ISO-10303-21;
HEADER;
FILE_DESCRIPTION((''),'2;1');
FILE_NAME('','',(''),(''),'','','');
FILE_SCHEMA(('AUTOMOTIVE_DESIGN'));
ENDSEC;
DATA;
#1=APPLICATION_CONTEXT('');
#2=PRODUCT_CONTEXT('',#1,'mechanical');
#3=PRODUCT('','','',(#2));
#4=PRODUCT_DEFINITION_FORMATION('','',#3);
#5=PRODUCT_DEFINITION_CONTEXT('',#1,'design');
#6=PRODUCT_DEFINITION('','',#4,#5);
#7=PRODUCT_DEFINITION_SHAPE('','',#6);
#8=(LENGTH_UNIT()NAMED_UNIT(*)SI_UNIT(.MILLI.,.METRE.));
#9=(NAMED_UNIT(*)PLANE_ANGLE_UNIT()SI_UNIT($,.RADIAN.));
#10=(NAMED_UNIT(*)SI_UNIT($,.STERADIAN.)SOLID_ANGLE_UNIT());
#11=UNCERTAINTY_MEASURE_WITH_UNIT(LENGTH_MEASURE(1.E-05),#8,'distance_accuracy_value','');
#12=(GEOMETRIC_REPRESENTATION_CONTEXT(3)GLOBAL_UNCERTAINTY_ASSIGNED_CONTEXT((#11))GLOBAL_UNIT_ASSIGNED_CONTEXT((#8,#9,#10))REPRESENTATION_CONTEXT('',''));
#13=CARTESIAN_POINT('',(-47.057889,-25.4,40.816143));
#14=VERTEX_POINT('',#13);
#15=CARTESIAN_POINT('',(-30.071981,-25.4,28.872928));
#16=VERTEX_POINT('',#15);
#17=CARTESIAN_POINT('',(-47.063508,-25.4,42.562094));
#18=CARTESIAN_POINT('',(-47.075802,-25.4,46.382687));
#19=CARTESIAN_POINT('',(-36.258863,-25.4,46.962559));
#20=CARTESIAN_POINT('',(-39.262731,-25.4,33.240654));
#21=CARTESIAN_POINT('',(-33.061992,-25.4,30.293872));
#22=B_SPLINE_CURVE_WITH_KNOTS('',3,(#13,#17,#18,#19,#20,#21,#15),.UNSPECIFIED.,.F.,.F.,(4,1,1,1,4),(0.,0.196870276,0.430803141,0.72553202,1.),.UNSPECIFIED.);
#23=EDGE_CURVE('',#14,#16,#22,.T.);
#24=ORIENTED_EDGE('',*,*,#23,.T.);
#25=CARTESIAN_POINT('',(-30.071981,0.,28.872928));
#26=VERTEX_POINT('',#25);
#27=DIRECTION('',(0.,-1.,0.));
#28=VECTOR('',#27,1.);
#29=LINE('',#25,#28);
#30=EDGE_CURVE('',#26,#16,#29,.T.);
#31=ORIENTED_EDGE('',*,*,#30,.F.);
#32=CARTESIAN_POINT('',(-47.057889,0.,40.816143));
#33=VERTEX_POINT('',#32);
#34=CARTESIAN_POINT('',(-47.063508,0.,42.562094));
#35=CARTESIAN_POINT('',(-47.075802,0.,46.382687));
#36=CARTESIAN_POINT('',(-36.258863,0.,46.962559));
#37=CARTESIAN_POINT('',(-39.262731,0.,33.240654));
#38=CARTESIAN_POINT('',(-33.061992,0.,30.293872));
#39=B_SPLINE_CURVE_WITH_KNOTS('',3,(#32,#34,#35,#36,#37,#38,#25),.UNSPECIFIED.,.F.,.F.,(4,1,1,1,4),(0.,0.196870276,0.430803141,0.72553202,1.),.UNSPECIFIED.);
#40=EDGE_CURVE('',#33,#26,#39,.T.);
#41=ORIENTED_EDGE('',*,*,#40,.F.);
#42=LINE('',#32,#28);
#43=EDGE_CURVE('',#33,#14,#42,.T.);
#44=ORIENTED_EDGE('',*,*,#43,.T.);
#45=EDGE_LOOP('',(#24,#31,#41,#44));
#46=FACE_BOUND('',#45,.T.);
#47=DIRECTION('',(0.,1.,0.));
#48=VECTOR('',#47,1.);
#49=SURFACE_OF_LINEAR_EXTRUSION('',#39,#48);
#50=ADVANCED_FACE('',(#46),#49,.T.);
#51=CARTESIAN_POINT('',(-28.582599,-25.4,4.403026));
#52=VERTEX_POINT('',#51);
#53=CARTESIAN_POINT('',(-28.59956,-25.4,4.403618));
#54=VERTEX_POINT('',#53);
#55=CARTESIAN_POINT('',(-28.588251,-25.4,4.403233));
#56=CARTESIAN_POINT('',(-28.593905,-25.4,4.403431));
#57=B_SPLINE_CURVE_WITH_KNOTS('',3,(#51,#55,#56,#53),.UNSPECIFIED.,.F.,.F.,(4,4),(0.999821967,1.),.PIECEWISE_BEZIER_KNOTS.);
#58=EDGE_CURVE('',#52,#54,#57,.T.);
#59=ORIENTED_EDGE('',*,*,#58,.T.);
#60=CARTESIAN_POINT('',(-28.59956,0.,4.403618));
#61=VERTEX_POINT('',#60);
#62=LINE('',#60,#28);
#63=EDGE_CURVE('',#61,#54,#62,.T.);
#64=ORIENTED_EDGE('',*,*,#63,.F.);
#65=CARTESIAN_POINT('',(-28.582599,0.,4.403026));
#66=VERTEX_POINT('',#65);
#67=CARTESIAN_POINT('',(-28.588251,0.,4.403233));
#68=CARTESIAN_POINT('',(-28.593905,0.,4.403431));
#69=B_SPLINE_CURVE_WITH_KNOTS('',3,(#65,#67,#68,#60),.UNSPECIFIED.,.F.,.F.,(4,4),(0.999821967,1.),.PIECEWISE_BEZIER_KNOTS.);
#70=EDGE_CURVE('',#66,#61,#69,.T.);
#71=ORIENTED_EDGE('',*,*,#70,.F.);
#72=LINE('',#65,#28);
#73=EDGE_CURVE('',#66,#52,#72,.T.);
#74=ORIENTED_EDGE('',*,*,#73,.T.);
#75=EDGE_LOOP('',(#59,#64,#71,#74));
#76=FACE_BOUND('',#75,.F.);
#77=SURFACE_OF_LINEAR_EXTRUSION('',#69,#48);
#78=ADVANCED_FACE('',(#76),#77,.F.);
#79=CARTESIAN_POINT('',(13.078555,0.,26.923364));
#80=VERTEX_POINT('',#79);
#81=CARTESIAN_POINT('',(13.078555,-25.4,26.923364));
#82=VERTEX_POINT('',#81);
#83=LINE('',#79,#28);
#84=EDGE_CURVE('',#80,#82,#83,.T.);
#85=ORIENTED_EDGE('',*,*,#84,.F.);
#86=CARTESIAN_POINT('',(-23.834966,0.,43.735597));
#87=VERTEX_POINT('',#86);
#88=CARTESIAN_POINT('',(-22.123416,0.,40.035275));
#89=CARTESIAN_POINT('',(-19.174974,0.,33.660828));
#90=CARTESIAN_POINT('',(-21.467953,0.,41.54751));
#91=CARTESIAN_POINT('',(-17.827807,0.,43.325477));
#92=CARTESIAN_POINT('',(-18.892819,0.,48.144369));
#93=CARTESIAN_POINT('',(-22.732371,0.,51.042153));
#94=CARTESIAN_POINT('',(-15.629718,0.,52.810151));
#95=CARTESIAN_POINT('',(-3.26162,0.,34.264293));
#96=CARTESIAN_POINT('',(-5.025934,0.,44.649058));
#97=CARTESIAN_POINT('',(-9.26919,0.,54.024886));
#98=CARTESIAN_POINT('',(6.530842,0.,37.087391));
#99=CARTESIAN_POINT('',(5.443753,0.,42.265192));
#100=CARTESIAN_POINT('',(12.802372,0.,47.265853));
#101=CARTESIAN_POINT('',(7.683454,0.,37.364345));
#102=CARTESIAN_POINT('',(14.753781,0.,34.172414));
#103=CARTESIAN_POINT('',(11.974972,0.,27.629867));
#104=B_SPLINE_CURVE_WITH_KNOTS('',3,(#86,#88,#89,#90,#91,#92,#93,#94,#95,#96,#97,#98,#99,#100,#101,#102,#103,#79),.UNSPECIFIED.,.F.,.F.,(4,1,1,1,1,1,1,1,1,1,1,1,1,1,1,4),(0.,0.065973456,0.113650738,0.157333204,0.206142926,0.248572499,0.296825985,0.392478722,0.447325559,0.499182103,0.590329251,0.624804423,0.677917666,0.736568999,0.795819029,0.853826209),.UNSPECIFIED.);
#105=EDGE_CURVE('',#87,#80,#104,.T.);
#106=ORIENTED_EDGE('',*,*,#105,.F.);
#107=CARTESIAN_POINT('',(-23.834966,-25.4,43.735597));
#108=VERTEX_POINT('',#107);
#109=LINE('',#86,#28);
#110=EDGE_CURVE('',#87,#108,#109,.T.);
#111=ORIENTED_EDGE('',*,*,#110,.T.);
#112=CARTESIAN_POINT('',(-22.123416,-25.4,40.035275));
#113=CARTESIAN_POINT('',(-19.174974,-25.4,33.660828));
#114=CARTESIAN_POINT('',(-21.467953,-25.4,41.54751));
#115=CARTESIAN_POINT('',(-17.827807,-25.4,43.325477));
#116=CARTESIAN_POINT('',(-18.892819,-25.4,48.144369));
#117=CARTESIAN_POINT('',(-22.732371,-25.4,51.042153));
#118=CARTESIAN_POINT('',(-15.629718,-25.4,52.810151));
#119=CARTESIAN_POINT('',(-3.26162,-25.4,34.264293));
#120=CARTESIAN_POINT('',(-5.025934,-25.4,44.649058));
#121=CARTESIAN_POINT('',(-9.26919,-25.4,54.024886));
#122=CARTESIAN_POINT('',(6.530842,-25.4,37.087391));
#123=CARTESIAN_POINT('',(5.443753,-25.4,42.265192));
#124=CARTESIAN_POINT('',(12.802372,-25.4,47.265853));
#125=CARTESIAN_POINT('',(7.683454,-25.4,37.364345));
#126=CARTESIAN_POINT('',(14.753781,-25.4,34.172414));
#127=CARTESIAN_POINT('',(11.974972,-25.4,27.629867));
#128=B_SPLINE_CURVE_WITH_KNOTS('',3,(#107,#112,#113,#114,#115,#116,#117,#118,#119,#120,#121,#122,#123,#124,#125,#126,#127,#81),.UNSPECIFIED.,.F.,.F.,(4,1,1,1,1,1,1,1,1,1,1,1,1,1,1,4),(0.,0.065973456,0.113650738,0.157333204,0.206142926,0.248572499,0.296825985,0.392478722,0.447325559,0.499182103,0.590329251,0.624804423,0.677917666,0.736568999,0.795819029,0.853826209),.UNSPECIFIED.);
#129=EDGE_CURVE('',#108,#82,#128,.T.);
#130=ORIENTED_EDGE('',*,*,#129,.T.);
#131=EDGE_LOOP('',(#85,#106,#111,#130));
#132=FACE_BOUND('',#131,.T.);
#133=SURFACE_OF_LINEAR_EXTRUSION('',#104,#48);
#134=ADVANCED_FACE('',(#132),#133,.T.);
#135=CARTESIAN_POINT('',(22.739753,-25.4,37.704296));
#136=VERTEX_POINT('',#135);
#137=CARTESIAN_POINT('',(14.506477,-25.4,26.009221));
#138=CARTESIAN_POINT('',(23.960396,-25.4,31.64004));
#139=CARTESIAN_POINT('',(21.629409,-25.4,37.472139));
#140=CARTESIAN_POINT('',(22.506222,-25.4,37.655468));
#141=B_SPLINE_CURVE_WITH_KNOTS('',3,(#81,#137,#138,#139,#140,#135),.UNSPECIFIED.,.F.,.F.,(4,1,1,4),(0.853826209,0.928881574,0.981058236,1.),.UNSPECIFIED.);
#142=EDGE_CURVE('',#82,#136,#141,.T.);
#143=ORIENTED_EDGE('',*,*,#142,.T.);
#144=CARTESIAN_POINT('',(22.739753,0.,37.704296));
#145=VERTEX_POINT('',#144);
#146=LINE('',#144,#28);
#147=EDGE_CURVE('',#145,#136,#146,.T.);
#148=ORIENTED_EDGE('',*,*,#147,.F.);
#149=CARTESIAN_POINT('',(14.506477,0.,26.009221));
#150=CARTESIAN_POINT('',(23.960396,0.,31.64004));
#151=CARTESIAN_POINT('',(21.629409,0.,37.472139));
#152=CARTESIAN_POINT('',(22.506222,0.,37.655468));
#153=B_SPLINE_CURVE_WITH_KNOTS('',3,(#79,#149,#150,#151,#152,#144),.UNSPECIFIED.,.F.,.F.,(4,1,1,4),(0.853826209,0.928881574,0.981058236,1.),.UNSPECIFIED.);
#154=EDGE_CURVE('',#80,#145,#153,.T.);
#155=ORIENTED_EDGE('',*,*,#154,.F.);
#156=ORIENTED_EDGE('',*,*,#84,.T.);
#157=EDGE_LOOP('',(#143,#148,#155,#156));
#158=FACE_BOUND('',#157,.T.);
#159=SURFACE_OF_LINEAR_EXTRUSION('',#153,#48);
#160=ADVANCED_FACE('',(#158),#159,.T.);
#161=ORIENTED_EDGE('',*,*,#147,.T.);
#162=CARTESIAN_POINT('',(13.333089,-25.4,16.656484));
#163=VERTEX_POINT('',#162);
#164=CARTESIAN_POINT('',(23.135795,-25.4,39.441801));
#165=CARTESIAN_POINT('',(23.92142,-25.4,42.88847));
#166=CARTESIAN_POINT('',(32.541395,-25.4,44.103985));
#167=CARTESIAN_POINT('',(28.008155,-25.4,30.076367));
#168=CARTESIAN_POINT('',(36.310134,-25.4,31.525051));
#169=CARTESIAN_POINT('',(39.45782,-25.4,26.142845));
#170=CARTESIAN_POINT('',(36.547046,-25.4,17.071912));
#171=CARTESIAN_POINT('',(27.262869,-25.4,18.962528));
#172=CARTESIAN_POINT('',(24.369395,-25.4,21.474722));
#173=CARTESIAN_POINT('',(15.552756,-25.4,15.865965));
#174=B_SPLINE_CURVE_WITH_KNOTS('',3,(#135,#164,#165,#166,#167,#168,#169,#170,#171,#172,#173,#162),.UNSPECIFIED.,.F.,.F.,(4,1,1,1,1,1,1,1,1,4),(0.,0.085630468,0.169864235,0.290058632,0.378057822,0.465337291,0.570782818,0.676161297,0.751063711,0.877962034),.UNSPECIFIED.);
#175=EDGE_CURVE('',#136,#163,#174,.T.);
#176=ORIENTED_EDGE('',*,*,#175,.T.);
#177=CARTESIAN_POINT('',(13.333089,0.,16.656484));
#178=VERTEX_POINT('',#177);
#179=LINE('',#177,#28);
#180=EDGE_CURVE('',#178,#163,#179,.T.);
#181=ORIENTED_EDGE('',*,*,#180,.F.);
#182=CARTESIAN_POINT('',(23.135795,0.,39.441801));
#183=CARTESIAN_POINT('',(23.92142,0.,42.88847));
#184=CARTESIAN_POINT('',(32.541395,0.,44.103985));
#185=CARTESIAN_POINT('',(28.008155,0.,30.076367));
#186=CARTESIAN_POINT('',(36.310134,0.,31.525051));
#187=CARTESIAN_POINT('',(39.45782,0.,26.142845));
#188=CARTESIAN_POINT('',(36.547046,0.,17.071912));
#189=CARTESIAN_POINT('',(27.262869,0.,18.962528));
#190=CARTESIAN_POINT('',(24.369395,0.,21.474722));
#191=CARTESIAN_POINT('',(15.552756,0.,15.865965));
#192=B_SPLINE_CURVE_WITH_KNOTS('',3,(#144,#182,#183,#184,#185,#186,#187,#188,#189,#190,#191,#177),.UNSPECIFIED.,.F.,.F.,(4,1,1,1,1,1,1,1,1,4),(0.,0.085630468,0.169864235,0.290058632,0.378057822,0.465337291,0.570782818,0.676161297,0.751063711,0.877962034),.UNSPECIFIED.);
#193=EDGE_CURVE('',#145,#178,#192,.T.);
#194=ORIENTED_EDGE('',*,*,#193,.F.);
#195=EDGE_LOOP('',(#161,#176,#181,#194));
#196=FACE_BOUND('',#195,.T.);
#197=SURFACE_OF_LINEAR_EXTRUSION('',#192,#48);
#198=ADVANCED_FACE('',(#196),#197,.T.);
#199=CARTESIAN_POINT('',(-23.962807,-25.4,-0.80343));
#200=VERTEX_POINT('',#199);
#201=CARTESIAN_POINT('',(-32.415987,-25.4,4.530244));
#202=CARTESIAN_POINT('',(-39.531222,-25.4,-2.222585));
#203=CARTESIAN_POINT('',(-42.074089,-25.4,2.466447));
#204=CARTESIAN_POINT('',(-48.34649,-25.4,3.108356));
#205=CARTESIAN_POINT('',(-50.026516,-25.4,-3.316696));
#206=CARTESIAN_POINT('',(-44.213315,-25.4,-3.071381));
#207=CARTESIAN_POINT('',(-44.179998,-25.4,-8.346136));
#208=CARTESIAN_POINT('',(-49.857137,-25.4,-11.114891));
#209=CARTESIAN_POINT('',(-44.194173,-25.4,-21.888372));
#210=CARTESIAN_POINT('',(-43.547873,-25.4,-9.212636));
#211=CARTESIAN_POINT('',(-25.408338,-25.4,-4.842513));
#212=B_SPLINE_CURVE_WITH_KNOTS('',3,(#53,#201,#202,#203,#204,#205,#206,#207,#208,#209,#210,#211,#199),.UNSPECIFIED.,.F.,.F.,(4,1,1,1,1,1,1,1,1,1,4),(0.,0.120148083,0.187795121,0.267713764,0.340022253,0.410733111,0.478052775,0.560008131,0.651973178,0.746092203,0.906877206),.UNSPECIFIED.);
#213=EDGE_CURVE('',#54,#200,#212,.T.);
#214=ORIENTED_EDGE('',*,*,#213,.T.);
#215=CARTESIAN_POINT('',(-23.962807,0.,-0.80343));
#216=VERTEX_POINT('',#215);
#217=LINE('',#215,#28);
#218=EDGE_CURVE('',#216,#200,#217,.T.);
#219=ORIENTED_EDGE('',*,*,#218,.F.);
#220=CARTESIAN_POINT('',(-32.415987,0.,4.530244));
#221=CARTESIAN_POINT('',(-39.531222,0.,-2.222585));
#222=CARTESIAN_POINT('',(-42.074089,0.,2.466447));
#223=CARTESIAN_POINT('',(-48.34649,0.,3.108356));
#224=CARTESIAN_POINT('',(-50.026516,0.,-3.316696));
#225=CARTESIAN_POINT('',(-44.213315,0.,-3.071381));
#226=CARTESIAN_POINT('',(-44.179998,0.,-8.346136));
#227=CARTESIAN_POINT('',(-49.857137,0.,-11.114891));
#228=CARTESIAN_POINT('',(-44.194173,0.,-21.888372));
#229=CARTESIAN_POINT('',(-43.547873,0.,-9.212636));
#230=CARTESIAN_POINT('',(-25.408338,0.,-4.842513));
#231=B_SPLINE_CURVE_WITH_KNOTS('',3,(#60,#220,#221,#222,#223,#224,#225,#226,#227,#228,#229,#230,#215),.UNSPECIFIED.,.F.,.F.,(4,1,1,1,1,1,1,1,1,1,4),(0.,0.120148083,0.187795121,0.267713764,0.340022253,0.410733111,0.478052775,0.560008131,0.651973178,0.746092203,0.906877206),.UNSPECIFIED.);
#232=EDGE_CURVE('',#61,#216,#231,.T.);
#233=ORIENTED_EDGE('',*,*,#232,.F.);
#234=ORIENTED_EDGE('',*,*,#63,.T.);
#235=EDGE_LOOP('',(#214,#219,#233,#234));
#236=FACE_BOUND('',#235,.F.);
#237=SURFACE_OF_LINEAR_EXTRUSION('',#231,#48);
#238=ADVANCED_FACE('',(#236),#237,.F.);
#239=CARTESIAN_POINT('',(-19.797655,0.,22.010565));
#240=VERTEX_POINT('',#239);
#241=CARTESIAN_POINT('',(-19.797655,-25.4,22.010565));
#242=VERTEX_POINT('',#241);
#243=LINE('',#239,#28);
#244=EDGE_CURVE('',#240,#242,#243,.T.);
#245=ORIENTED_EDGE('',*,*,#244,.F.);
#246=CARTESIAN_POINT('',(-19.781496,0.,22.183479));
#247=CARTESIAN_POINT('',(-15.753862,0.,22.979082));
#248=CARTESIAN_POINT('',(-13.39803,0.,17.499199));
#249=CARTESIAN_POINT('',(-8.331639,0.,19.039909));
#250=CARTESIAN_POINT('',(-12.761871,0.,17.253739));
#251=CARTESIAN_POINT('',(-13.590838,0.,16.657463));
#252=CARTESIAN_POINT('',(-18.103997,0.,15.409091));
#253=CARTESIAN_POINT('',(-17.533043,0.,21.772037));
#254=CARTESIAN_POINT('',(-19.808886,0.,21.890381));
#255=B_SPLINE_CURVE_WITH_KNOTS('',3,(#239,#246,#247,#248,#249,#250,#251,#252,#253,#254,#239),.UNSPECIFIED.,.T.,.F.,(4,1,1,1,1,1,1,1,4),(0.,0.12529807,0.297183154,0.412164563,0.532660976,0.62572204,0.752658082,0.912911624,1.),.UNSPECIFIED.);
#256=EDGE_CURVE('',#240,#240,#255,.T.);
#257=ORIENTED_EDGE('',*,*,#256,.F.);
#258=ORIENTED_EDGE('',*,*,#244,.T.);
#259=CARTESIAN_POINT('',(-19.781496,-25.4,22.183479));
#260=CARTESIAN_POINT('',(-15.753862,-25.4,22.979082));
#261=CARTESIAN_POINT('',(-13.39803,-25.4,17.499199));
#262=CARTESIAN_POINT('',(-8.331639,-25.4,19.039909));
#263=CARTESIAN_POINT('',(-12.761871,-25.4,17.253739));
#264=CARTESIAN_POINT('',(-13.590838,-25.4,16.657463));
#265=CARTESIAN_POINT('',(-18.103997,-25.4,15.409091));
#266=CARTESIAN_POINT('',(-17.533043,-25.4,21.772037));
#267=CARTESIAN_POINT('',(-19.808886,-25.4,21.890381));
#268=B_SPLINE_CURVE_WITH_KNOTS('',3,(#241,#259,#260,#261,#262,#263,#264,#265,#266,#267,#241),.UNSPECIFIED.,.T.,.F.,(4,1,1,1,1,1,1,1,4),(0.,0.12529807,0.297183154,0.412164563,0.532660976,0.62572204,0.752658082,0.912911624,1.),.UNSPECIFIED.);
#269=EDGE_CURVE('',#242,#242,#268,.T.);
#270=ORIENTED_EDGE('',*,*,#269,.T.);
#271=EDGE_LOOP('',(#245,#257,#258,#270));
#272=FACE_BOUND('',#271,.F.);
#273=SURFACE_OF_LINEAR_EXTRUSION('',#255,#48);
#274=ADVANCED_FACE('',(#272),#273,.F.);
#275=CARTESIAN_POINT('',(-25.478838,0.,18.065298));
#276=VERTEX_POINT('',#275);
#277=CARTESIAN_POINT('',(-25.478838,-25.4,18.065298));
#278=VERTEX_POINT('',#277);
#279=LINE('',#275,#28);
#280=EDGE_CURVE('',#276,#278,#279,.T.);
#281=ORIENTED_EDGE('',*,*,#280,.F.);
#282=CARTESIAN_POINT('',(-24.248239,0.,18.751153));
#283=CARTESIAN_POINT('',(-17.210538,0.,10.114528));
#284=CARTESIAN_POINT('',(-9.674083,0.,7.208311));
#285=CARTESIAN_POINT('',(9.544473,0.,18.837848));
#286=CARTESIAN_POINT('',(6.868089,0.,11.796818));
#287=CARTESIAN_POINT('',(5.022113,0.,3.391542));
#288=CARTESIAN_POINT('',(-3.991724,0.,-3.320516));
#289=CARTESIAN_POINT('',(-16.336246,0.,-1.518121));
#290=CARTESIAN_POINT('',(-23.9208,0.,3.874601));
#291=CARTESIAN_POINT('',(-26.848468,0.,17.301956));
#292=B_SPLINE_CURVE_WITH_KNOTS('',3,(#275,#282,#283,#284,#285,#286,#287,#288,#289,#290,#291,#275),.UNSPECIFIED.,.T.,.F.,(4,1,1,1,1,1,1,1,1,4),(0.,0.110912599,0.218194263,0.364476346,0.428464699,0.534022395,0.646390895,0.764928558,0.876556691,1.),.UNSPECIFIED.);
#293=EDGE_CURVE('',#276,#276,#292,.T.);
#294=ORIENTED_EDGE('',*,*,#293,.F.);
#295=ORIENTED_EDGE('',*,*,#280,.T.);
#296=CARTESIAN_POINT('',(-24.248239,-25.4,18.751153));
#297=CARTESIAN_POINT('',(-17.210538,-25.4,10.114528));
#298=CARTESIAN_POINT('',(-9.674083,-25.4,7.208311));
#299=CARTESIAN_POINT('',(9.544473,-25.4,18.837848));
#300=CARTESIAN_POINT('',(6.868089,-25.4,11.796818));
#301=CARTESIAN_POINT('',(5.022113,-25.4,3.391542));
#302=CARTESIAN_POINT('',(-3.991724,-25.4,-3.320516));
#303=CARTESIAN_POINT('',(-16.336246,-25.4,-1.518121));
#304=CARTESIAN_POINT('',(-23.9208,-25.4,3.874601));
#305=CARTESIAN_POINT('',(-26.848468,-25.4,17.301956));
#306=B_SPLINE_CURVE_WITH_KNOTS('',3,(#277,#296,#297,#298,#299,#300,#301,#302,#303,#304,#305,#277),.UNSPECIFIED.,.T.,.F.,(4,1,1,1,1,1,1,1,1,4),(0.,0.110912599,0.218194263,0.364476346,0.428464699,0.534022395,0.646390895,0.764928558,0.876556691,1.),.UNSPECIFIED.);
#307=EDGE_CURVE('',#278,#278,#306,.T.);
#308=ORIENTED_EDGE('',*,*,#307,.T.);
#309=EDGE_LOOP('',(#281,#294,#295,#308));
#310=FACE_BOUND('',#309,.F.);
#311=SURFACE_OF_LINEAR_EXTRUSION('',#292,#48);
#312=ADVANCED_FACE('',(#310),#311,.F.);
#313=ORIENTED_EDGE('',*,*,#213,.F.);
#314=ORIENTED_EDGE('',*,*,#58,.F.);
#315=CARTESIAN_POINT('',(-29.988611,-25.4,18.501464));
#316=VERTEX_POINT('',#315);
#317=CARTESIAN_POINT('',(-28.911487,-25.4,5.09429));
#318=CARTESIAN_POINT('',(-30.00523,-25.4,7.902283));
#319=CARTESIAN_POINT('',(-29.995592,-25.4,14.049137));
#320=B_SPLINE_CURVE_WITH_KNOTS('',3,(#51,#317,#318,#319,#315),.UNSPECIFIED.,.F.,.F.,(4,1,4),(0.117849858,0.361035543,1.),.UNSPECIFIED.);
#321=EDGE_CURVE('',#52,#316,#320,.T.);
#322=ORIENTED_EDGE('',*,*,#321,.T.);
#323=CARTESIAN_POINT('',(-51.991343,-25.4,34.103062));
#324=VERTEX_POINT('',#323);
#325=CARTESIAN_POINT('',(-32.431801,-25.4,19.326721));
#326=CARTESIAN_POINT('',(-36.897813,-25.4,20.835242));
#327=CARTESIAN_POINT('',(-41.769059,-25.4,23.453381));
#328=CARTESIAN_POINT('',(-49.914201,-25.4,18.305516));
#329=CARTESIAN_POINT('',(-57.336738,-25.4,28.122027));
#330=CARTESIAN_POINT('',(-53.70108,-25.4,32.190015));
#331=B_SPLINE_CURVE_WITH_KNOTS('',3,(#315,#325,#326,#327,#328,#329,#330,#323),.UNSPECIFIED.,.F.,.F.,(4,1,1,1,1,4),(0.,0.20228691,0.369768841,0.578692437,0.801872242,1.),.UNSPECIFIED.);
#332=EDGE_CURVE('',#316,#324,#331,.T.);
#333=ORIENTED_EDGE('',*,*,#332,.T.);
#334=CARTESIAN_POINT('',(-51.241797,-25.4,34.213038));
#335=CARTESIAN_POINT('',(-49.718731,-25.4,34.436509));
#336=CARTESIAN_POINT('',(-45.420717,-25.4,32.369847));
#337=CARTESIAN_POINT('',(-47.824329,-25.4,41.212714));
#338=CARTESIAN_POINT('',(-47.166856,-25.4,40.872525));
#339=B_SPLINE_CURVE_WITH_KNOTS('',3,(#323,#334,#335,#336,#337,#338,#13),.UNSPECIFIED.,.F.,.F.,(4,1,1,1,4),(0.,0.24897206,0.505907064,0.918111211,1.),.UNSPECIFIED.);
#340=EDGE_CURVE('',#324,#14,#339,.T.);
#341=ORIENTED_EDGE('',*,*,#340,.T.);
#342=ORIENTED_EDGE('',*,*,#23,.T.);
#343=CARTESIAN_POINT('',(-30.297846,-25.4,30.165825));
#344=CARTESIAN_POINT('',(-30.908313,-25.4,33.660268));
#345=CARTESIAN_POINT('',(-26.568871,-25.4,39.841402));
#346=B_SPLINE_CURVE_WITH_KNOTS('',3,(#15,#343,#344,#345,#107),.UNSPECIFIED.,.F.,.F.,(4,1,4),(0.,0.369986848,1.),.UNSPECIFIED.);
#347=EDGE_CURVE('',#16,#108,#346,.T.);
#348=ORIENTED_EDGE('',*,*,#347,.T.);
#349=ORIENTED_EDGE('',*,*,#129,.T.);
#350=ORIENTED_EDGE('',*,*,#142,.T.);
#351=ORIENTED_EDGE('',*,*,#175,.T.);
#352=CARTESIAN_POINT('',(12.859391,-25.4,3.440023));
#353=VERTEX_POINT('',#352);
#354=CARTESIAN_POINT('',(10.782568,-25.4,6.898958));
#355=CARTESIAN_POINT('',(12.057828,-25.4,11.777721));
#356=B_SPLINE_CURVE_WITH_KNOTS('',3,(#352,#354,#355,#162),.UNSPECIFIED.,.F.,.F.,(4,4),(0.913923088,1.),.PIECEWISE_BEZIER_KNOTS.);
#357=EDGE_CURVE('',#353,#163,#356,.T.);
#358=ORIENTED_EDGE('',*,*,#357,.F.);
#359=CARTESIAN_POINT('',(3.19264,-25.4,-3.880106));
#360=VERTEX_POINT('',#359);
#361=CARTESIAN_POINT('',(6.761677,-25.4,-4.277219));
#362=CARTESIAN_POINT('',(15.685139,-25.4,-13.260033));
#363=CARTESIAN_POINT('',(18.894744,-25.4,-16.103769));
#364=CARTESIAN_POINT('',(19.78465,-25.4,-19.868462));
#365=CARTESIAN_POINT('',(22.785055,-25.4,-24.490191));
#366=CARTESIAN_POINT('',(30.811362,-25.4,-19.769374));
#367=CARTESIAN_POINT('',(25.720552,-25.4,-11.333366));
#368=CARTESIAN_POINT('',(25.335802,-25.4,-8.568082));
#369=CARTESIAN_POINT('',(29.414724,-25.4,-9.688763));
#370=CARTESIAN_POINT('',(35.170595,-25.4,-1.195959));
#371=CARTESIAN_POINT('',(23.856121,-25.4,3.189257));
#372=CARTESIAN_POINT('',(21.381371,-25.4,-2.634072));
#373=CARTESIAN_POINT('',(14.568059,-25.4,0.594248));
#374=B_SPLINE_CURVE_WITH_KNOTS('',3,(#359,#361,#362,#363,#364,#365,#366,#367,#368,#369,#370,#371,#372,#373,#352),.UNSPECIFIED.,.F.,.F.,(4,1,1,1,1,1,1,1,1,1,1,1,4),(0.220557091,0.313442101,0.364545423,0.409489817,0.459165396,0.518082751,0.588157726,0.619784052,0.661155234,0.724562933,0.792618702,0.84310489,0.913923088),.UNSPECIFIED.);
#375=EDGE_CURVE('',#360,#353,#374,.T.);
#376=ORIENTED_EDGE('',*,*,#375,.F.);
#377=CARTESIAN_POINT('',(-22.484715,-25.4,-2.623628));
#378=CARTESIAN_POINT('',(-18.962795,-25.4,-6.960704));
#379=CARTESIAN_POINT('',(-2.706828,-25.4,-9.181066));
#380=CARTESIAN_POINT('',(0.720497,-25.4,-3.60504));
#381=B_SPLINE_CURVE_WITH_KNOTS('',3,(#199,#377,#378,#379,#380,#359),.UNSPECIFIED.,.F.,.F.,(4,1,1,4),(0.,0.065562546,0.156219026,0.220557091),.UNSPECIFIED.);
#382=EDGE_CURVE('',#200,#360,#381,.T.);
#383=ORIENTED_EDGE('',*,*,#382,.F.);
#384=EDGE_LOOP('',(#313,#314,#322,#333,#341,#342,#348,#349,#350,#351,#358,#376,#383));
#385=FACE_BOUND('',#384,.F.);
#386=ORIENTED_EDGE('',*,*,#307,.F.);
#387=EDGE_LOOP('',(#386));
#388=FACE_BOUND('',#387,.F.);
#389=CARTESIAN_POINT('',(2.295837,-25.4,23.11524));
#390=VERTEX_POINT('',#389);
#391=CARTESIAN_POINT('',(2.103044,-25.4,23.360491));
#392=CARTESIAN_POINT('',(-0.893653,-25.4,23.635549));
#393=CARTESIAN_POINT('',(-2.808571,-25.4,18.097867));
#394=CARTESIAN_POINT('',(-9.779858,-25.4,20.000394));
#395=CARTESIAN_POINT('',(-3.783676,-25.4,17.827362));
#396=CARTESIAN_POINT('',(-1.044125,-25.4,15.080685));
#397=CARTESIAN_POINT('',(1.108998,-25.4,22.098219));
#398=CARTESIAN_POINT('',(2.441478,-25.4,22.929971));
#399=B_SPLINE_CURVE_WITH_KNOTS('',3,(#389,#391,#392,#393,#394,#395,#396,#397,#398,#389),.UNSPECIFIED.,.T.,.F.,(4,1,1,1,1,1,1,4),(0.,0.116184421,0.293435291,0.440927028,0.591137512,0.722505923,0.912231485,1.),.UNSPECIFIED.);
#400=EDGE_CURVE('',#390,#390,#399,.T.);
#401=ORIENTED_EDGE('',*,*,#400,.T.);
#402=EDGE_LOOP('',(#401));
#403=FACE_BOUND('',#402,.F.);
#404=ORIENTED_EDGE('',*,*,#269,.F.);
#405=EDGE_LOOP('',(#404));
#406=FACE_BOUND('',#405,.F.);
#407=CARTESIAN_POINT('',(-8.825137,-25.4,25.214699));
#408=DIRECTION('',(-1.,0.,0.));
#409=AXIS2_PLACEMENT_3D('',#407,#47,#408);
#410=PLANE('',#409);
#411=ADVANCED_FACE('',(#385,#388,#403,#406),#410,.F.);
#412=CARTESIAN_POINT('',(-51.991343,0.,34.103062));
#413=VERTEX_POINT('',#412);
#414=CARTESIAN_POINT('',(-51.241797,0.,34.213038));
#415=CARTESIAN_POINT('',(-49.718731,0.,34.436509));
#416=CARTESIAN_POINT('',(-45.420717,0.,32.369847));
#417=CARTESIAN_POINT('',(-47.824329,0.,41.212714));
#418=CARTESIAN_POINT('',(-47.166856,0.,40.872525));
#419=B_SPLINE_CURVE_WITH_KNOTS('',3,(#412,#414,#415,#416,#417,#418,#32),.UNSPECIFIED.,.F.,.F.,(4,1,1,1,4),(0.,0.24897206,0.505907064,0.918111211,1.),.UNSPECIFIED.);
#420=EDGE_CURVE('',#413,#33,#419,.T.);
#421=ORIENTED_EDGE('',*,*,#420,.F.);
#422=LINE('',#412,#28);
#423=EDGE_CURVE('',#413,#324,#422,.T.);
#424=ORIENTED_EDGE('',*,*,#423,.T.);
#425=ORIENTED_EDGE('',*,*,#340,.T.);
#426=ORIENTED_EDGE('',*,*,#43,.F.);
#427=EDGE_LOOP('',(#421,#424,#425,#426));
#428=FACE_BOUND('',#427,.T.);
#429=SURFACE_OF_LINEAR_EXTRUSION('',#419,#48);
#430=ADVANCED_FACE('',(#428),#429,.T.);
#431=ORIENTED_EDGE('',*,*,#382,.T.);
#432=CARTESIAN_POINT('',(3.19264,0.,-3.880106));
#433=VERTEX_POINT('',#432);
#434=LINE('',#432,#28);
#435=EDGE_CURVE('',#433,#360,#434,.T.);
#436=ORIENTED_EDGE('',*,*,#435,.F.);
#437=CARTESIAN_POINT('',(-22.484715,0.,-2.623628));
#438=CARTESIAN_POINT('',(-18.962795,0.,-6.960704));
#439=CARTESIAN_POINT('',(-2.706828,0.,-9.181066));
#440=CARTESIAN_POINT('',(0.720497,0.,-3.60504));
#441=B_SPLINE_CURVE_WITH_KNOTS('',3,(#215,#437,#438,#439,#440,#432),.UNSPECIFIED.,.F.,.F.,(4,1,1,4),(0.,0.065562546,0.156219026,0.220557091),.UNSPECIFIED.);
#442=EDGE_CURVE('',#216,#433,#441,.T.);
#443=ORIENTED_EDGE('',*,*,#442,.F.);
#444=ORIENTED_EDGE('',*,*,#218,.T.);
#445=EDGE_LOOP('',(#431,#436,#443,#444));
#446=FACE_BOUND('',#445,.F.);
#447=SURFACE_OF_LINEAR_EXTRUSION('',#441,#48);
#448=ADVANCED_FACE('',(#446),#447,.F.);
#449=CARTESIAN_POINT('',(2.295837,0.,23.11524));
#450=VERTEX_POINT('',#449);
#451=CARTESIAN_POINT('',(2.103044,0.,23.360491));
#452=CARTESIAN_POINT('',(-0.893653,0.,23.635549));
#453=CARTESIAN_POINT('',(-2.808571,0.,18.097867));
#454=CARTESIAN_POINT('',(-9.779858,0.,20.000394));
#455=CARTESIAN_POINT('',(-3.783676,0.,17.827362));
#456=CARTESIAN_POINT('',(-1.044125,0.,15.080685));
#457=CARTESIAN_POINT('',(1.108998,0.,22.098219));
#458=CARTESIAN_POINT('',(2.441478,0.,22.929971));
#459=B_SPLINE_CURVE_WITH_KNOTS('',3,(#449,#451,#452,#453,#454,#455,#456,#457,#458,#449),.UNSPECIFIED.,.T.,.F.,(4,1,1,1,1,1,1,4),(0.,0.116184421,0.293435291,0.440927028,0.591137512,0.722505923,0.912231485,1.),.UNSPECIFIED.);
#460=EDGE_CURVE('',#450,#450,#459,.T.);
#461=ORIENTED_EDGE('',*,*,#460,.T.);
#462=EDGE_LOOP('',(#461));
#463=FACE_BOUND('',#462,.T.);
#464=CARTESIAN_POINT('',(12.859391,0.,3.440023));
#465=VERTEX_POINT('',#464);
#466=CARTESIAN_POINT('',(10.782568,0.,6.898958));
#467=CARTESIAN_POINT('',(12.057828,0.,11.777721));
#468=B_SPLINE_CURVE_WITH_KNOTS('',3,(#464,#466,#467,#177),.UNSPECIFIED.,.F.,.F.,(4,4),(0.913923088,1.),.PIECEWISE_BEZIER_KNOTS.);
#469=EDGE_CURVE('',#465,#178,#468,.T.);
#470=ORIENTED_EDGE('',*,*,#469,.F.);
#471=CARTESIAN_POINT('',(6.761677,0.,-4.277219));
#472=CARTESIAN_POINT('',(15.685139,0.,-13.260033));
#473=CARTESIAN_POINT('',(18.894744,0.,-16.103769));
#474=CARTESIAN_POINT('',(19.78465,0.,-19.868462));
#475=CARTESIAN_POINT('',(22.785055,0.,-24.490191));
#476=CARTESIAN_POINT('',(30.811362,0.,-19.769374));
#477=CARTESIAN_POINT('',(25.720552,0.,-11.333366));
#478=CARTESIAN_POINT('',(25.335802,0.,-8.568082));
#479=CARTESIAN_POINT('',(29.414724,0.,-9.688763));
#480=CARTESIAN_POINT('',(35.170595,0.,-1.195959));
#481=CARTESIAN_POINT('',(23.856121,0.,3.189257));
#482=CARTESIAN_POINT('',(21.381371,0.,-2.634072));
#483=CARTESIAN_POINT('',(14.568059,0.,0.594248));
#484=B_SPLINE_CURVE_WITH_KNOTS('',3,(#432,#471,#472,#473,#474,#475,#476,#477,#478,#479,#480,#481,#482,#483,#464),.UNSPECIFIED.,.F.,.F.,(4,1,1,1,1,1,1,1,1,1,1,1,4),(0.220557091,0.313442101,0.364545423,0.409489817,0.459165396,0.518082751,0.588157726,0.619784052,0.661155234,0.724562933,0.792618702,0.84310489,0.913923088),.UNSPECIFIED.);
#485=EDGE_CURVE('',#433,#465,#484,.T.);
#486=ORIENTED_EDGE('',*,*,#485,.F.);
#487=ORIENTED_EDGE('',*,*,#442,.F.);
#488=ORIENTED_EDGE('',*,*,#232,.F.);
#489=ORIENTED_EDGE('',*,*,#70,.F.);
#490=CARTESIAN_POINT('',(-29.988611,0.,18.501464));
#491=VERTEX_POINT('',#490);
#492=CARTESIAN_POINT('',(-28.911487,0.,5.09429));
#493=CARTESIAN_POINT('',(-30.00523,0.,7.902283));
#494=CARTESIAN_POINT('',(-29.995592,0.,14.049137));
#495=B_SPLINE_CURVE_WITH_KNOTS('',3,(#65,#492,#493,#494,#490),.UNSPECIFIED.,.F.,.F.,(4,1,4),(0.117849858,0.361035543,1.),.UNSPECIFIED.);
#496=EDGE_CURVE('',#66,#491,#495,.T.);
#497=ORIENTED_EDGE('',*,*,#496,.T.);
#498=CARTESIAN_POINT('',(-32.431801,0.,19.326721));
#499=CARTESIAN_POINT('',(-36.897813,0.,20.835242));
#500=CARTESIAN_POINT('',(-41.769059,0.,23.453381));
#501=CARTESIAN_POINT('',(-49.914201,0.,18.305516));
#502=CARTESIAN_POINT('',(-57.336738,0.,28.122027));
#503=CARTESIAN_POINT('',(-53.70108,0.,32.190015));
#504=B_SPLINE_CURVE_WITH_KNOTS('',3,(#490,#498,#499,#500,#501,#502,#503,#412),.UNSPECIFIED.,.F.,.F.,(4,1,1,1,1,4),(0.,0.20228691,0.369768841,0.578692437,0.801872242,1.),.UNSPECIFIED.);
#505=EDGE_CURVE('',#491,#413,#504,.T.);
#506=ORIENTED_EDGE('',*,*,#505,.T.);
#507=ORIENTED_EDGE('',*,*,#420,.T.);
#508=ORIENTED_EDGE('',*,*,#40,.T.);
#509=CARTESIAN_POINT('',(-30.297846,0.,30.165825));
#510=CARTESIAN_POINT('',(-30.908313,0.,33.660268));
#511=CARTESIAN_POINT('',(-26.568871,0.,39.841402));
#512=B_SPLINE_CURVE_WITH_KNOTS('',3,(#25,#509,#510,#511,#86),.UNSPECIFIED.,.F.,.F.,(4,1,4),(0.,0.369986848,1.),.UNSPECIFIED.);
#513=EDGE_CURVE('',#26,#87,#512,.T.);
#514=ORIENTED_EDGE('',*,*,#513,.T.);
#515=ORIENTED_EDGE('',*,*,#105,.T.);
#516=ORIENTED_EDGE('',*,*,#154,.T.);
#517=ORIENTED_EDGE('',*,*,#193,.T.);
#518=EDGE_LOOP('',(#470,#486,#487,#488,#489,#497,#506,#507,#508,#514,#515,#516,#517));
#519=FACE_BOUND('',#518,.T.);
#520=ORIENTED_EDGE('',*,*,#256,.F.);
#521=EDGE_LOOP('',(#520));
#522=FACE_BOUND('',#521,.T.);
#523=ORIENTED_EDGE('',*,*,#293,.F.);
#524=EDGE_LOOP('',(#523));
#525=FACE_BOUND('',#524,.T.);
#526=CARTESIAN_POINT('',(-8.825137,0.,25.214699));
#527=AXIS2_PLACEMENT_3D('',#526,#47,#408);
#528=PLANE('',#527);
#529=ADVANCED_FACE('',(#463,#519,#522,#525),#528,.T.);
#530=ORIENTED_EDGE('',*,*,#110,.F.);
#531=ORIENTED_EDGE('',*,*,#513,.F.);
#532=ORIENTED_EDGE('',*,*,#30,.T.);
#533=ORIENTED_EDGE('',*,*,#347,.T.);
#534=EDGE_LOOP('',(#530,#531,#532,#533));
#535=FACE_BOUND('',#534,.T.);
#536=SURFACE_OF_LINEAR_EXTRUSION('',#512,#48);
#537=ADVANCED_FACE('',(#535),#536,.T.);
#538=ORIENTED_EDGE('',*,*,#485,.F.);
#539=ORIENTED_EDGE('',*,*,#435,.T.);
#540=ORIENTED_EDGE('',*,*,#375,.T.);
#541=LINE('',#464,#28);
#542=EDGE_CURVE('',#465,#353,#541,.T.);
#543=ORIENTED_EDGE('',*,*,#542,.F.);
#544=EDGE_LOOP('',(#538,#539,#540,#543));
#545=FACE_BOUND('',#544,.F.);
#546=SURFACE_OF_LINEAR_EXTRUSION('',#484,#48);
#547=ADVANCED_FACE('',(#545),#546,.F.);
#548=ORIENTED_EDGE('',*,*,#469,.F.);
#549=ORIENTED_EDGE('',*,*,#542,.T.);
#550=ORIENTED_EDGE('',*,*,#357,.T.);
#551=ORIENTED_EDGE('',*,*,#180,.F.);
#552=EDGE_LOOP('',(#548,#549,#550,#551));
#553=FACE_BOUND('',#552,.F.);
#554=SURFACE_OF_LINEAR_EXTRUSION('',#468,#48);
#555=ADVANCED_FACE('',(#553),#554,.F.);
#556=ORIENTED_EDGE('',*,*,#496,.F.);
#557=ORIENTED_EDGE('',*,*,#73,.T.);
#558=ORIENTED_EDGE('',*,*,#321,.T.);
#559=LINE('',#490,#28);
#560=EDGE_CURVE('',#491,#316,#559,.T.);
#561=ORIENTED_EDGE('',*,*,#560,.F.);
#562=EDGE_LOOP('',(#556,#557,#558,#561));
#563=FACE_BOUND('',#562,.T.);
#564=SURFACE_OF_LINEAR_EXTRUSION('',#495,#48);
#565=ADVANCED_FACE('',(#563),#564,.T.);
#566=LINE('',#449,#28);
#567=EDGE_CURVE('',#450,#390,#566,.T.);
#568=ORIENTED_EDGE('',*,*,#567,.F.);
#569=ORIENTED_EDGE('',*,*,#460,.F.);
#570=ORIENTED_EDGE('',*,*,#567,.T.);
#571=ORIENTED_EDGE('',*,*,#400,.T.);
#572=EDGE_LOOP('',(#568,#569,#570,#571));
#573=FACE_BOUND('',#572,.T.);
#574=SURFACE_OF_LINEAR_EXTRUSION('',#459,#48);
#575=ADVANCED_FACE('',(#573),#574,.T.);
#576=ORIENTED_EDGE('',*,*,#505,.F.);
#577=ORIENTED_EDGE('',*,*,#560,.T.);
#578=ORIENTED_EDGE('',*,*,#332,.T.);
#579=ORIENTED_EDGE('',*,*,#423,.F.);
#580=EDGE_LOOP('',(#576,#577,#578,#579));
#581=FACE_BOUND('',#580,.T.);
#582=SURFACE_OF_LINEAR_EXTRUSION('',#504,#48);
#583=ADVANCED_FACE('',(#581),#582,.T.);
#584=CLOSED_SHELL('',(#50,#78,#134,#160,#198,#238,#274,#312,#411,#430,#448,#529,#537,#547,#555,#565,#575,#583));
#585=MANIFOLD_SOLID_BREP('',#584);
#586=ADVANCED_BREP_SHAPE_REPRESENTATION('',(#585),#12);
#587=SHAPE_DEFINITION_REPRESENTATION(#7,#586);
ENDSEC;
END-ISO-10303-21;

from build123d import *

# Parameters (mm, degrees)
F1_DEPTH = 25.4
F2_DEPTH = 25.4


with BuildPart() as f1:
    # F0 (on Front) → F1 (new body)
    with BuildSketch(Plane.XZ):
        with BuildLine():
            add(Edge.make_bspline(
                [(-28.582599479, 4.4030261133), (-28.911487021, 5.0942899), (-30.0052298315, 7.9022829332), (-29.9955920295, 14.0491369133), (-29.988611117, 18.5014642775)],
                knots=[0.1178498577, 0.1178498577, 0.1178498577, 0.1178498577, 0.3610355427, 1, 1, 1, 1], degree=3))
            add(Edge.make_bspline(
                [(-23.9628069103, -0.8034296916), (-23.1271905646, 1.5314372534), (-25.6319657929, 4.2948866861), (-28.5825994784, 4.4030261149)],
                knots=[0.9068772059, 0.9068772059, 0.9068772059, 0.9068772059, 0.9998219668, 0.9998219668, 0.9998219668, 0.9998219668], degree=3))
            add(Edge.make_bspline(
                [(-23.9628069103, -0.8034296916), (-22.4847151214, -2.6236284733), (-18.9627948515, -6.9607035001), (-2.7068275756, -9.1810662592), (0.7204972747, -3.6050401032), (3.1926396769, -3.8801059127)],
                knots=[0, 0, 0, 0, 0.065562546, 0.1562190262, 0.220557091, 0.220557091, 0.220557091, 0.220557091], degree=3))
            add(Edge.make_bspline(
                [(3.1926396769, -3.8801059127), (6.4148901341, -1.4400628861), (9.6371405913, 0.9999801405), (12.8593910486, 3.4400231671)],
                knots=[0, 0, 0, 0, 12.1256081013, 12.1256081013, 12.1256081013, 12.1256081013], degree=3))
            add(Edge.make_bspline(
                [(12.8593910486, 3.4400231671), (10.7825680091, 6.8989582609), (12.0578283637, 11.7777213579), (13.3330887184, 16.6564844549)],
                knots=[0.9139230876, 0.9139230876, 0.9139230876, 0.9139230876, 1, 1, 1, 1], degree=3))
            add(Edge.make_bspline(
                [(13.3330887184, 16.6564844549), (11.1984371271, 17.4167258477), (12.1384958303, 22.170044938), (13.0785545334, 26.9233640283)],
                knots=[0.8779620342, 0.8779620342, 0.8779620342, 0.8779620342, 1, 1, 1, 1], degree=3))
            add(Edge.make_bspline(
                [(-23.8349661231, 43.7355972826), (-22.1234160519, 40.035275174), (-19.1749737388, 33.6608275544), (-21.4679533769, 41.5475102485), (-17.8278071698, 43.3254765071), (-18.8928188241, 48.1443694392), (-22.7323708409, 51.0421526969), (-15.6297179351, 52.8101505148), (-3.2616201651, 34.2642928372), (-5.0259337502, 44.649058171), (-9.2691896796, 54.0248863547), (6.5308422815, 37.0873913861), (5.4437529608, 42.2651916898), (12.8023722691, 47.2658531715), (7.6834538512, 37.364344669), (14.7537805978, 34.1724137284), (11.9749720842, 27.6298672373), (13.0785545334, 26.9233640283)],
                knots=[0, 0, 0, 0, 0.0659734559, 0.1136507381, 0.1573332044, 0.206142926, 0.2485724992, 0.2968259846, 0.392478722, 0.4473255586, 0.4991821025, 0.5903292506, 0.6248044229, 0.6779176661, 0.7365689993, 0.7958190288, 0.8538262087, 0.8538262087, 0.8538262087, 0.8538262087], degree=3))
            add(Edge.make_bspline(
                [(-30.0719812512, 28.8729276508), (-30.2978460259, 30.1658254111), (-30.9083130621, 33.6602678936), (-26.5688714256, 39.8414016948), (-23.8349661231, 43.7355972826)],
                knots=[0, 0, 0, 0, 0.3699868482, 1, 1, 1, 1], degree=3))
            add(Edge.make_bspline(
                [(-30.0719812512, 28.8729276508), (-30.0441912065, 25.415773193), (-30.0164011618, 21.9586187353), (-29.988611117, 18.5014642775)],
                knots=[0, 0, 0, 0, 10.3717984498, 10.3717984498, 10.3717984498, 10.3717984498], degree=3))
        make_face()
        with BuildLine():
            add(Edge.make_bspline(
                [(-25.4788380116, 18.0652979761), (-24.2482389679, 18.7511528309), (-17.2105382246, 10.114528047), (-9.6740831364, 7.2083109071), (9.5444728611, 18.8378479878), (6.8680885331, 11.7968176965), (5.0221131526, 3.3915421383), (-3.9917236002, -3.3205162606), (-16.3362461319, -1.5181207662), (-23.9208000239, 3.8746005054), (-26.8484679776, 17.3019564425), (-25.4788380116, 18.0652979761)],
                knots=[0, 0, 0, 0, 0.1109125985, 0.2181942629, 0.3644763463, 0.4284646992, 0.5340223955, 0.6463908952, 0.7649285585, 0.8765566906, 1, 1, 1, 1], degree=3))
        make_face(mode=Mode.SUBTRACT)
        with BuildLine():
            add(Edge.make_bspline(
                [(-19.7976548225, 22.0105648041), (-19.7814961527, 22.183479321), (-15.7538623988, 22.979082497), (-13.3980297055, 17.4991987935), (-8.3316390173, 19.0399090443), (-12.7618707406, 17.2537391899), (-13.5908380486, 16.6574633288), (-18.1039968661, 15.4090909316), (-17.5330430956, 21.77203716), (-19.8088858998, 21.8903806343), (-19.7976548225, 22.0105648041)],
                knots=[0, 0, 0, 0, 0.12529807, 0.2971831537, 0.4121645629, 0.5326609759, 0.6257220395, 0.7526580825, 0.9129116237, 1, 1, 1, 1], degree=3))
        make_face(mode=Mode.SUBTRACT)
        with BuildLine():
            add(Edge.make_bspline(
                [(2.2958370391, 23.1152400374), (2.1030435689, 23.3604910785), (-0.8936527624, 23.6355494928), (-2.8085706536, 18.097866935), (-9.7798582845, 20.0003943617), (-3.7836758606, 17.8273615059), (-1.0441252793, 15.0806850733), (1.1089976645, 22.0982189794), (2.4414778783, 22.9299714836), (2.2958370391, 23.1152400374)],
                knots=[0, 0, 0, 0, 0.1161844206, 0.2934352911, 0.4409270275, 0.5911375117, 0.7225059225, 0.9122314854, 1, 1, 1, 1], degree=3))
        make_face(mode=Mode.SUBTRACT)
        with BuildLine():
            add(Edge.make_bspline(
                [(-23.9628069103, -0.8034296916), (-23.1271905646, 1.5314372534), (-25.6319657929, 4.2948866861), (-28.5825994784, 4.4030261149)],
                knots=[0.9068772059, 0.9068772059, 0.9068772059, 0.9068772059, 0.9998219668, 0.9998219668, 0.9998219668, 0.9998219668], degree=3))
            add(Edge.make_bspline(
                [(-28.5825994784, 4.4030261149), (-28.5882513379, 4.4032332531), (-28.5939048334, 4.4034306488), (-28.5995599444, 4.4036182805)],
                knots=[0.9998219668, 0.9998219668, 0.9998219668, 0.9998219668, 1, 1, 1, 1], degree=3))
            add(Edge.make_bspline(
                [(-28.5995599444, 4.4036182805), (-32.4159872528, 4.5302439997), (-39.5312221028, -2.2225854998), (-42.0740894627, 2.4664471475), (-48.3464898377, 3.1083557022), (-50.0265156573, -3.316695786), (-44.2133146194, -3.0713805788), (-44.1799975211, -8.3461361029), (-49.8571373325, -11.1148907182), (-44.1941729271, -21.8883720333), (-43.5478726947, -9.2126358837), (-25.4083383754, -4.8425125235), (-23.9628069103, -0.8034296916)],
                knots=[0, 0, 0, 0, 0.1201480825, 0.1877951212, 0.2677137642, 0.3400222528, 0.4107331107, 0.4780527746, 0.5600081308, 0.6519731782, 0.7460922032, 0.9068772059, 0.9068772059, 0.9068772059, 0.9068772059], degree=3))
        make_face()
        with BuildLine():
            add(Edge.make_bspline(
                [(-29.988611117, 18.5014642775), (-32.4318014786, 19.3267206558), (-36.8978129875, 20.835241867), (-41.7690588713, 23.4533807082), (-49.914200871, 18.3055162376), (-57.3367375081, 28.122026636), (-53.7010795986, 32.1900146088), (-51.9913434982, 34.1030620039)],
                knots=[0, 0, 0, 0, 0.2022869102, 0.3697688412, 0.5786924368, 0.8018722421, 1, 1, 1, 1], degree=3))
            add(Edge.make_bspline(
                [(-30.0719812512, 28.8729276508), (-30.0441912065, 25.415773193), (-30.0164011618, 21.9586187353), (-29.988611117, 18.5014642775)],
                knots=[0, 0, 0, 0, 10.3717984498, 10.3717984498, 10.3717984498, 10.3717984498], degree=3))
            add(Edge.make_bspline(
                [(-47.0578894019, 40.8161431551), (-47.0635076746, 42.562094121), (-47.07580191, 46.3826869267), (-36.2588625889, 46.9625588574), (-39.2627310899, 33.2406538651), (-33.06199153, 30.2938722424), (-30.0719812512, 28.8729276508)],
                knots=[0, 0, 0, 0, 0.196870276, 0.430803141, 0.7255320204, 1, 1, 1, 1], degree=3))
            add(Edge.make_bspline(
                [(-51.9913434982, 34.1030620039), (-51.2417970104, 34.2130384386), (-49.7187310786, 34.4365087152), (-45.4207174884, 32.3698466924), (-47.8243292334, 41.2127143604), (-47.1668561048, 40.8725246934), (-47.0578894019, 40.8161431551)],
                knots=[0, 0, 0, 0, 0.2489720601, 0.5059070635, 0.9181112111, 1, 1, 1, 1], degree=3))
        make_face()
        with BuildLine():
            add(Edge.make_bspline(
                [(3.1926396769, -3.8801059127), (6.4148901341, -1.4400628861), (9.6371405913, 0.9999801405), (12.8593910486, 3.4400231671)],
                knots=[0, 0, 0, 0, 12.1256081013, 12.1256081013, 12.1256081013, 12.1256081013], degree=3))
            add(Edge.make_bspline(
                [(3.1926396769, -3.8801059127), (6.7616772776, -4.2772190465), (15.6851390406, -13.2600327404), (18.8947435255, -16.1037689885), (19.7846499278, -19.8684619524), (22.7850550196, -24.4901905614), (30.8113617578, -19.7693740854), (25.7205518361, -11.3333663481), (25.3358020166, -8.5680816914), (29.4147236184, -9.6887628706), (35.1705948736, -1.195959346), (23.8561206959, 3.1892571316), (21.3813710577, -2.6340719945), (14.568059024, 0.5942479076), (12.8593910486, 3.4400231671)],
                knots=[0.220557091, 0.220557091, 0.220557091, 0.220557091, 0.3134421012, 0.3645454234, 0.4094898172, 0.4591653958, 0.5180827509, 0.5881577264, 0.6197840518, 0.6611552335, 0.7245629334, 0.7926187016, 0.8431048904, 0.9139230876, 0.9139230876, 0.9139230876, 0.9139230876], degree=3))
        make_face()
        with BuildLine():
            add(Edge.make_bspline(
                [(13.0785545334, 26.9233640283), (14.5064774807, 26.0092210522), (23.9603964726, 31.6400403992), (21.629409463, 37.4721388559), (22.506221888, 37.6554682472), (22.7397531271, 37.7042964101)],
                knots=[0.8538262087, 0.8538262087, 0.8538262087, 0.8538262087, 0.9288815736, 0.9810582358, 1, 1, 1, 1], degree=3))
            add(Edge.make_bspline(
                [(13.3330887184, 16.6564844549), (11.1984371271, 17.4167258477), (12.1384958303, 22.170044938), (13.0785545334, 26.9233640283)],
                knots=[0.8779620342, 0.8779620342, 0.8779620342, 0.8779620342, 1, 1, 1, 1], degree=3))
            add(Edge.make_bspline(
                [(22.7397531271, 37.7042964101), (23.1357953088, 39.4418009547), (23.921419911, 42.8884699713), (32.5413952836, 44.10398542), (28.0081552157, 30.0763669909), (36.3101337873, 31.5250508533), (39.4578196622, 26.1428454393), (36.5470456063, 17.0719122464), (27.2628689451, 18.9625275082), (24.3693947813, 21.4747220023), (15.552756228, 15.865965231), (13.3330887184, 16.6564844549)],
                knots=[0, 0, 0, 0, 0.085630468, 0.1698642354, 0.290058632, 0.3780578218, 0.4653372905, 0.5707828182, 0.6761612965, 0.7510637111, 0.8779620342, 0.8779620342, 0.8779620342, 0.8779620342], degree=3))
        make_face()
    extrude(amount=F1_DEPTH)

    # F0 (on Front) → F2 (join)
    with BuildSketch(Plane.XZ):
        with BuildLine():
            add(Edge.make_bspline(
                [(-28.582599479, 4.4030261133), (-28.911487021, 5.0942899), (-30.0052298315, 7.9022829332), (-29.9955920295, 14.0491369133), (-29.988611117, 18.5014642775)],
                knots=[0.1178498577, 0.1178498577, 0.1178498577, 0.1178498577, 0.3610355427, 1, 1, 1, 1], degree=3))
            add(Edge.make_bspline(
                [(-23.9628069103, -0.8034296916), (-23.1271905646, 1.5314372534), (-25.6319657929, 4.2948866861), (-28.5825994784, 4.4030261149)],
                knots=[0.9068772059, 0.9068772059, 0.9068772059, 0.9068772059, 0.9998219668, 0.9998219668, 0.9998219668, 0.9998219668], degree=3))
            add(Edge.make_bspline(
                [(-23.9628069103, -0.8034296916), (-22.4847151214, -2.6236284733), (-18.9627948515, -6.9607035001), (-2.7068275756, -9.1810662592), (0.7204972747, -3.6050401032), (3.1926396769, -3.8801059127)],
                knots=[0, 0, 0, 0, 0.065562546, 0.1562190262, 0.220557091, 0.220557091, 0.220557091, 0.220557091], degree=3))
            add(Edge.make_bspline(
                [(3.1926396769, -3.8801059127), (6.4148901341, -1.4400628861), (9.6371405913, 0.9999801405), (12.8593910486, 3.4400231671)],
                knots=[0, 0, 0, 0, 12.1256081013, 12.1256081013, 12.1256081013, 12.1256081013], degree=3))
            add(Edge.make_bspline(
                [(12.8593910486, 3.4400231671), (10.7825680091, 6.8989582609), (12.0578283637, 11.7777213579), (13.3330887184, 16.6564844549)],
                knots=[0.9139230876, 0.9139230876, 0.9139230876, 0.9139230876, 1, 1, 1, 1], degree=3))
            add(Edge.make_bspline(
                [(13.3330887184, 16.6564844549), (11.1984371271, 17.4167258477), (12.1384958303, 22.170044938), (13.0785545334, 26.9233640283)],
                knots=[0.8779620342, 0.8779620342, 0.8779620342, 0.8779620342, 1, 1, 1, 1], degree=3))
            add(Edge.make_bspline(
                [(-23.8349661231, 43.7355972826), (-22.1234160519, 40.035275174), (-19.1749737388, 33.6608275544), (-21.4679533769, 41.5475102485), (-17.8278071698, 43.3254765071), (-18.8928188241, 48.1443694392), (-22.7323708409, 51.0421526969), (-15.6297179351, 52.8101505148), (-3.2616201651, 34.2642928372), (-5.0259337502, 44.649058171), (-9.2691896796, 54.0248863547), (6.5308422815, 37.0873913861), (5.4437529608, 42.2651916898), (12.8023722691, 47.2658531715), (7.6834538512, 37.364344669), (14.7537805978, 34.1724137284), (11.9749720842, 27.6298672373), (13.0785545334, 26.9233640283)],
                knots=[0, 0, 0, 0, 0.0659734559, 0.1136507381, 0.1573332044, 0.206142926, 0.2485724992, 0.2968259846, 0.392478722, 0.4473255586, 0.4991821025, 0.5903292506, 0.6248044229, 0.6779176661, 0.7365689993, 0.7958190288, 0.8538262087, 0.8538262087, 0.8538262087, 0.8538262087], degree=3))
            add(Edge.make_bspline(
                [(-30.0719812512, 28.8729276508), (-30.2978460259, 30.1658254111), (-30.9083130621, 33.6602678936), (-26.5688714256, 39.8414016948), (-23.8349661231, 43.7355972826)],
                knots=[0, 0, 0, 0, 0.3699868482, 1, 1, 1, 1], degree=3))
            add(Edge.make_bspline(
                [(-30.0719812512, 28.8729276508), (-30.0441912065, 25.415773193), (-30.0164011618, 21.9586187353), (-29.988611117, 18.5014642775)],
                knots=[0, 0, 0, 0, 10.3717984498, 10.3717984498, 10.3717984498, 10.3717984498], degree=3))
        make_face()
        with BuildLine():
            add(Edge.make_bspline(
                [(-25.4788380116, 18.0652979761), (-24.2482389679, 18.7511528309), (-17.2105382246, 10.114528047), (-9.6740831364, 7.2083109071), (9.5444728611, 18.8378479878), (6.8680885331, 11.7968176965), (5.0221131526, 3.3915421383), (-3.9917236002, -3.3205162606), (-16.3362461319, -1.5181207662), (-23.9208000239, 3.8746005054), (-26.8484679776, 17.3019564425), (-25.4788380116, 18.0652979761)],
                knots=[0, 0, 0, 0, 0.1109125985, 0.2181942629, 0.3644763463, 0.4284646992, 0.5340223955, 0.6463908952, 0.7649285585, 0.8765566906, 1, 1, 1, 1], degree=3))
        make_face(mode=Mode.SUBTRACT)
        with BuildLine():
            add(Edge.make_bspline(
                [(-19.7976548225, 22.0105648041), (-19.7814961527, 22.183479321), (-15.7538623988, 22.979082497), (-13.3980297055, 17.4991987935), (-8.3316390173, 19.0399090443), (-12.7618707406, 17.2537391899), (-13.5908380486, 16.6574633288), (-18.1039968661, 15.4090909316), (-17.5330430956, 21.77203716), (-19.8088858998, 21.8903806343), (-19.7976548225, 22.0105648041)],
                knots=[0, 0, 0, 0, 0.12529807, 0.2971831537, 0.4121645629, 0.5326609759, 0.6257220395, 0.7526580825, 0.9129116237, 1, 1, 1, 1], degree=3))
        make_face(mode=Mode.SUBTRACT)
        with BuildLine():
            add(Edge.make_bspline(
                [(2.2958370391, 23.1152400374), (2.1030435689, 23.3604910785), (-0.8936527624, 23.6355494928), (-2.8085706536, 18.097866935), (-9.7798582845, 20.0003943617), (-3.7836758606, 17.8273615059), (-1.0441252793, 15.0806850733), (1.1089976645, 22.0982189794), (2.4414778783, 22.9299714836), (2.2958370391, 23.1152400374)],
                knots=[0, 0, 0, 0, 0.1161844206, 0.2934352911, 0.4409270275, 0.5911375117, 0.7225059225, 0.9122314854, 1, 1, 1, 1], degree=3))
        make_face(mode=Mode.SUBTRACT)
        with BuildLine():
            add(Edge.make_bspline(
                [(-23.9628069103, -0.8034296916), (-23.1271905646, 1.5314372534), (-25.6319657929, 4.2948866861), (-28.5825994784, 4.4030261149)],
                knots=[0.9068772059, 0.9068772059, 0.9068772059, 0.9068772059, 0.9998219668, 0.9998219668, 0.9998219668, 0.9998219668], degree=3))
            add(Edge.make_bspline(
                [(-28.5825994784, 4.4030261149), (-28.5882513379, 4.4032332531), (-28.5939048334, 4.4034306488), (-28.5995599444, 4.4036182805)],
                knots=[0.9998219668, 0.9998219668, 0.9998219668, 0.9998219668, 1, 1, 1, 1], degree=3))
            add(Edge.make_bspline(
                [(-28.5995599444, 4.4036182805), (-32.4159872528, 4.5302439997), (-39.5312221028, -2.2225854998), (-42.0740894627, 2.4664471475), (-48.3464898377, 3.1083557022), (-50.0265156573, -3.316695786), (-44.2133146194, -3.0713805788), (-44.1799975211, -8.3461361029), (-49.8571373325, -11.1148907182), (-44.1941729271, -21.8883720333), (-43.5478726947, -9.2126358837), (-25.4083383754, -4.8425125235), (-23.9628069103, -0.8034296916)],
                knots=[0, 0, 0, 0, 0.1201480825, 0.1877951212, 0.2677137642, 0.3400222528, 0.4107331107, 0.4780527746, 0.5600081308, 0.6519731782, 0.7460922032, 0.9068772059, 0.9068772059, 0.9068772059, 0.9068772059], degree=3))
        make_face()
        with BuildLine():
            add(Edge.make_bspline(
                [(-29.988611117, 18.5014642775), (-32.4318014786, 19.3267206558), (-36.8978129875, 20.835241867), (-41.7690588713, 23.4533807082), (-49.914200871, 18.3055162376), (-57.3367375081, 28.122026636), (-53.7010795986, 32.1900146088), (-51.9913434982, 34.1030620039)],
                knots=[0, 0, 0, 0, 0.2022869102, 0.3697688412, 0.5786924368, 0.8018722421, 1, 1, 1, 1], degree=3))
            add(Edge.make_bspline(
                [(-30.0719812512, 28.8729276508), (-30.0441912065, 25.415773193), (-30.0164011618, 21.9586187353), (-29.988611117, 18.5014642775)],
                knots=[0, 0, 0, 0, 10.3717984498, 10.3717984498, 10.3717984498, 10.3717984498], degree=3))
            add(Edge.make_bspline(
                [(-47.0578894019, 40.8161431551), (-47.0635076746, 42.562094121), (-47.07580191, 46.3826869267), (-36.2588625889, 46.9625588574), (-39.2627310899, 33.2406538651), (-33.06199153, 30.2938722424), (-30.0719812512, 28.8729276508)],
                knots=[0, 0, 0, 0, 0.196870276, 0.430803141, 0.7255320204, 1, 1, 1, 1], degree=3))
            add(Edge.make_bspline(
                [(-51.9913434982, 34.1030620039), (-51.2417970104, 34.2130384386), (-49.7187310786, 34.4365087152), (-45.4207174884, 32.3698466924), (-47.8243292334, 41.2127143604), (-47.1668561048, 40.8725246934), (-47.0578894019, 40.8161431551)],
                knots=[0, 0, 0, 0, 0.2489720601, 0.5059070635, 0.9181112111, 1, 1, 1, 1], degree=3))
        make_face()
        with BuildLine():
            add(Edge.make_bspline(
                [(3.1926396769, -3.8801059127), (6.4148901341, -1.4400628861), (9.6371405913, 0.9999801405), (12.8593910486, 3.4400231671)],
                knots=[0, 0, 0, 0, 12.1256081013, 12.1256081013, 12.1256081013, 12.1256081013], degree=3))
            add(Edge.make_bspline(
                [(3.1926396769, -3.8801059127), (6.7616772776, -4.2772190465), (15.6851390406, -13.2600327404), (18.8947435255, -16.1037689885), (19.7846499278, -19.8684619524), (22.7850550196, -24.4901905614), (30.8113617578, -19.7693740854), (25.7205518361, -11.3333663481), (25.3358020166, -8.5680816914), (29.4147236184, -9.6887628706), (35.1705948736, -1.195959346), (23.8561206959, 3.1892571316), (21.3813710577, -2.6340719945), (14.568059024, 0.5942479076), (12.8593910486, 3.4400231671)],
                knots=[0.220557091, 0.220557091, 0.220557091, 0.220557091, 0.3134421012, 0.3645454234, 0.4094898172, 0.4591653958, 0.5180827509, 0.5881577264, 0.6197840518, 0.6611552335, 0.7245629334, 0.7926187016, 0.8431048904, 0.9139230876, 0.9139230876, 0.9139230876, 0.9139230876], degree=3))
        make_face()
        with BuildLine():
            add(Edge.make_bspline(
                [(13.0785545334, 26.9233640283), (14.5064774807, 26.0092210522), (23.9603964726, 31.6400403992), (21.629409463, 37.4721388559), (22.506221888, 37.6554682472), (22.7397531271, 37.7042964101)],
                knots=[0.8538262087, 0.8538262087, 0.8538262087, 0.8538262087, 0.9288815736, 0.9810582358, 1, 1, 1, 1], degree=3))
            add(Edge.make_bspline(
                [(13.3330887184, 16.6564844549), (11.1984371271, 17.4167258477), (12.1384958303, 22.170044938), (13.0785545334, 26.9233640283)],
                knots=[0.8779620342, 0.8779620342, 0.8779620342, 0.8779620342, 1, 1, 1, 1], degree=3))
            add(Edge.make_bspline(
                [(22.7397531271, 37.7042964101), (23.1357953088, 39.4418009547), (23.921419911, 42.8884699713), (32.5413952836, 44.10398542), (28.0081552157, 30.0763669909), (36.3101337873, 31.5250508533), (39.4578196622, 26.1428454393), (36.5470456063, 17.0719122464), (27.2628689451, 18.9625275082), (24.3693947813, 21.4747220023), (15.552756228, 15.865965231), (13.3330887184, 16.6564844549)],
                knots=[0, 0, 0, 0, 0.085630468, 0.1698642354, 0.290058632, 0.3780578218, 0.4653372905, 0.5707828182, 0.6761612965, 0.7510637111, 0.8779620342, 0.8779620342, 0.8779620342, 0.8779620342], degree=3))
        make_face()
    extrude(amount=F2_DEPTH)


solid = f1.part
